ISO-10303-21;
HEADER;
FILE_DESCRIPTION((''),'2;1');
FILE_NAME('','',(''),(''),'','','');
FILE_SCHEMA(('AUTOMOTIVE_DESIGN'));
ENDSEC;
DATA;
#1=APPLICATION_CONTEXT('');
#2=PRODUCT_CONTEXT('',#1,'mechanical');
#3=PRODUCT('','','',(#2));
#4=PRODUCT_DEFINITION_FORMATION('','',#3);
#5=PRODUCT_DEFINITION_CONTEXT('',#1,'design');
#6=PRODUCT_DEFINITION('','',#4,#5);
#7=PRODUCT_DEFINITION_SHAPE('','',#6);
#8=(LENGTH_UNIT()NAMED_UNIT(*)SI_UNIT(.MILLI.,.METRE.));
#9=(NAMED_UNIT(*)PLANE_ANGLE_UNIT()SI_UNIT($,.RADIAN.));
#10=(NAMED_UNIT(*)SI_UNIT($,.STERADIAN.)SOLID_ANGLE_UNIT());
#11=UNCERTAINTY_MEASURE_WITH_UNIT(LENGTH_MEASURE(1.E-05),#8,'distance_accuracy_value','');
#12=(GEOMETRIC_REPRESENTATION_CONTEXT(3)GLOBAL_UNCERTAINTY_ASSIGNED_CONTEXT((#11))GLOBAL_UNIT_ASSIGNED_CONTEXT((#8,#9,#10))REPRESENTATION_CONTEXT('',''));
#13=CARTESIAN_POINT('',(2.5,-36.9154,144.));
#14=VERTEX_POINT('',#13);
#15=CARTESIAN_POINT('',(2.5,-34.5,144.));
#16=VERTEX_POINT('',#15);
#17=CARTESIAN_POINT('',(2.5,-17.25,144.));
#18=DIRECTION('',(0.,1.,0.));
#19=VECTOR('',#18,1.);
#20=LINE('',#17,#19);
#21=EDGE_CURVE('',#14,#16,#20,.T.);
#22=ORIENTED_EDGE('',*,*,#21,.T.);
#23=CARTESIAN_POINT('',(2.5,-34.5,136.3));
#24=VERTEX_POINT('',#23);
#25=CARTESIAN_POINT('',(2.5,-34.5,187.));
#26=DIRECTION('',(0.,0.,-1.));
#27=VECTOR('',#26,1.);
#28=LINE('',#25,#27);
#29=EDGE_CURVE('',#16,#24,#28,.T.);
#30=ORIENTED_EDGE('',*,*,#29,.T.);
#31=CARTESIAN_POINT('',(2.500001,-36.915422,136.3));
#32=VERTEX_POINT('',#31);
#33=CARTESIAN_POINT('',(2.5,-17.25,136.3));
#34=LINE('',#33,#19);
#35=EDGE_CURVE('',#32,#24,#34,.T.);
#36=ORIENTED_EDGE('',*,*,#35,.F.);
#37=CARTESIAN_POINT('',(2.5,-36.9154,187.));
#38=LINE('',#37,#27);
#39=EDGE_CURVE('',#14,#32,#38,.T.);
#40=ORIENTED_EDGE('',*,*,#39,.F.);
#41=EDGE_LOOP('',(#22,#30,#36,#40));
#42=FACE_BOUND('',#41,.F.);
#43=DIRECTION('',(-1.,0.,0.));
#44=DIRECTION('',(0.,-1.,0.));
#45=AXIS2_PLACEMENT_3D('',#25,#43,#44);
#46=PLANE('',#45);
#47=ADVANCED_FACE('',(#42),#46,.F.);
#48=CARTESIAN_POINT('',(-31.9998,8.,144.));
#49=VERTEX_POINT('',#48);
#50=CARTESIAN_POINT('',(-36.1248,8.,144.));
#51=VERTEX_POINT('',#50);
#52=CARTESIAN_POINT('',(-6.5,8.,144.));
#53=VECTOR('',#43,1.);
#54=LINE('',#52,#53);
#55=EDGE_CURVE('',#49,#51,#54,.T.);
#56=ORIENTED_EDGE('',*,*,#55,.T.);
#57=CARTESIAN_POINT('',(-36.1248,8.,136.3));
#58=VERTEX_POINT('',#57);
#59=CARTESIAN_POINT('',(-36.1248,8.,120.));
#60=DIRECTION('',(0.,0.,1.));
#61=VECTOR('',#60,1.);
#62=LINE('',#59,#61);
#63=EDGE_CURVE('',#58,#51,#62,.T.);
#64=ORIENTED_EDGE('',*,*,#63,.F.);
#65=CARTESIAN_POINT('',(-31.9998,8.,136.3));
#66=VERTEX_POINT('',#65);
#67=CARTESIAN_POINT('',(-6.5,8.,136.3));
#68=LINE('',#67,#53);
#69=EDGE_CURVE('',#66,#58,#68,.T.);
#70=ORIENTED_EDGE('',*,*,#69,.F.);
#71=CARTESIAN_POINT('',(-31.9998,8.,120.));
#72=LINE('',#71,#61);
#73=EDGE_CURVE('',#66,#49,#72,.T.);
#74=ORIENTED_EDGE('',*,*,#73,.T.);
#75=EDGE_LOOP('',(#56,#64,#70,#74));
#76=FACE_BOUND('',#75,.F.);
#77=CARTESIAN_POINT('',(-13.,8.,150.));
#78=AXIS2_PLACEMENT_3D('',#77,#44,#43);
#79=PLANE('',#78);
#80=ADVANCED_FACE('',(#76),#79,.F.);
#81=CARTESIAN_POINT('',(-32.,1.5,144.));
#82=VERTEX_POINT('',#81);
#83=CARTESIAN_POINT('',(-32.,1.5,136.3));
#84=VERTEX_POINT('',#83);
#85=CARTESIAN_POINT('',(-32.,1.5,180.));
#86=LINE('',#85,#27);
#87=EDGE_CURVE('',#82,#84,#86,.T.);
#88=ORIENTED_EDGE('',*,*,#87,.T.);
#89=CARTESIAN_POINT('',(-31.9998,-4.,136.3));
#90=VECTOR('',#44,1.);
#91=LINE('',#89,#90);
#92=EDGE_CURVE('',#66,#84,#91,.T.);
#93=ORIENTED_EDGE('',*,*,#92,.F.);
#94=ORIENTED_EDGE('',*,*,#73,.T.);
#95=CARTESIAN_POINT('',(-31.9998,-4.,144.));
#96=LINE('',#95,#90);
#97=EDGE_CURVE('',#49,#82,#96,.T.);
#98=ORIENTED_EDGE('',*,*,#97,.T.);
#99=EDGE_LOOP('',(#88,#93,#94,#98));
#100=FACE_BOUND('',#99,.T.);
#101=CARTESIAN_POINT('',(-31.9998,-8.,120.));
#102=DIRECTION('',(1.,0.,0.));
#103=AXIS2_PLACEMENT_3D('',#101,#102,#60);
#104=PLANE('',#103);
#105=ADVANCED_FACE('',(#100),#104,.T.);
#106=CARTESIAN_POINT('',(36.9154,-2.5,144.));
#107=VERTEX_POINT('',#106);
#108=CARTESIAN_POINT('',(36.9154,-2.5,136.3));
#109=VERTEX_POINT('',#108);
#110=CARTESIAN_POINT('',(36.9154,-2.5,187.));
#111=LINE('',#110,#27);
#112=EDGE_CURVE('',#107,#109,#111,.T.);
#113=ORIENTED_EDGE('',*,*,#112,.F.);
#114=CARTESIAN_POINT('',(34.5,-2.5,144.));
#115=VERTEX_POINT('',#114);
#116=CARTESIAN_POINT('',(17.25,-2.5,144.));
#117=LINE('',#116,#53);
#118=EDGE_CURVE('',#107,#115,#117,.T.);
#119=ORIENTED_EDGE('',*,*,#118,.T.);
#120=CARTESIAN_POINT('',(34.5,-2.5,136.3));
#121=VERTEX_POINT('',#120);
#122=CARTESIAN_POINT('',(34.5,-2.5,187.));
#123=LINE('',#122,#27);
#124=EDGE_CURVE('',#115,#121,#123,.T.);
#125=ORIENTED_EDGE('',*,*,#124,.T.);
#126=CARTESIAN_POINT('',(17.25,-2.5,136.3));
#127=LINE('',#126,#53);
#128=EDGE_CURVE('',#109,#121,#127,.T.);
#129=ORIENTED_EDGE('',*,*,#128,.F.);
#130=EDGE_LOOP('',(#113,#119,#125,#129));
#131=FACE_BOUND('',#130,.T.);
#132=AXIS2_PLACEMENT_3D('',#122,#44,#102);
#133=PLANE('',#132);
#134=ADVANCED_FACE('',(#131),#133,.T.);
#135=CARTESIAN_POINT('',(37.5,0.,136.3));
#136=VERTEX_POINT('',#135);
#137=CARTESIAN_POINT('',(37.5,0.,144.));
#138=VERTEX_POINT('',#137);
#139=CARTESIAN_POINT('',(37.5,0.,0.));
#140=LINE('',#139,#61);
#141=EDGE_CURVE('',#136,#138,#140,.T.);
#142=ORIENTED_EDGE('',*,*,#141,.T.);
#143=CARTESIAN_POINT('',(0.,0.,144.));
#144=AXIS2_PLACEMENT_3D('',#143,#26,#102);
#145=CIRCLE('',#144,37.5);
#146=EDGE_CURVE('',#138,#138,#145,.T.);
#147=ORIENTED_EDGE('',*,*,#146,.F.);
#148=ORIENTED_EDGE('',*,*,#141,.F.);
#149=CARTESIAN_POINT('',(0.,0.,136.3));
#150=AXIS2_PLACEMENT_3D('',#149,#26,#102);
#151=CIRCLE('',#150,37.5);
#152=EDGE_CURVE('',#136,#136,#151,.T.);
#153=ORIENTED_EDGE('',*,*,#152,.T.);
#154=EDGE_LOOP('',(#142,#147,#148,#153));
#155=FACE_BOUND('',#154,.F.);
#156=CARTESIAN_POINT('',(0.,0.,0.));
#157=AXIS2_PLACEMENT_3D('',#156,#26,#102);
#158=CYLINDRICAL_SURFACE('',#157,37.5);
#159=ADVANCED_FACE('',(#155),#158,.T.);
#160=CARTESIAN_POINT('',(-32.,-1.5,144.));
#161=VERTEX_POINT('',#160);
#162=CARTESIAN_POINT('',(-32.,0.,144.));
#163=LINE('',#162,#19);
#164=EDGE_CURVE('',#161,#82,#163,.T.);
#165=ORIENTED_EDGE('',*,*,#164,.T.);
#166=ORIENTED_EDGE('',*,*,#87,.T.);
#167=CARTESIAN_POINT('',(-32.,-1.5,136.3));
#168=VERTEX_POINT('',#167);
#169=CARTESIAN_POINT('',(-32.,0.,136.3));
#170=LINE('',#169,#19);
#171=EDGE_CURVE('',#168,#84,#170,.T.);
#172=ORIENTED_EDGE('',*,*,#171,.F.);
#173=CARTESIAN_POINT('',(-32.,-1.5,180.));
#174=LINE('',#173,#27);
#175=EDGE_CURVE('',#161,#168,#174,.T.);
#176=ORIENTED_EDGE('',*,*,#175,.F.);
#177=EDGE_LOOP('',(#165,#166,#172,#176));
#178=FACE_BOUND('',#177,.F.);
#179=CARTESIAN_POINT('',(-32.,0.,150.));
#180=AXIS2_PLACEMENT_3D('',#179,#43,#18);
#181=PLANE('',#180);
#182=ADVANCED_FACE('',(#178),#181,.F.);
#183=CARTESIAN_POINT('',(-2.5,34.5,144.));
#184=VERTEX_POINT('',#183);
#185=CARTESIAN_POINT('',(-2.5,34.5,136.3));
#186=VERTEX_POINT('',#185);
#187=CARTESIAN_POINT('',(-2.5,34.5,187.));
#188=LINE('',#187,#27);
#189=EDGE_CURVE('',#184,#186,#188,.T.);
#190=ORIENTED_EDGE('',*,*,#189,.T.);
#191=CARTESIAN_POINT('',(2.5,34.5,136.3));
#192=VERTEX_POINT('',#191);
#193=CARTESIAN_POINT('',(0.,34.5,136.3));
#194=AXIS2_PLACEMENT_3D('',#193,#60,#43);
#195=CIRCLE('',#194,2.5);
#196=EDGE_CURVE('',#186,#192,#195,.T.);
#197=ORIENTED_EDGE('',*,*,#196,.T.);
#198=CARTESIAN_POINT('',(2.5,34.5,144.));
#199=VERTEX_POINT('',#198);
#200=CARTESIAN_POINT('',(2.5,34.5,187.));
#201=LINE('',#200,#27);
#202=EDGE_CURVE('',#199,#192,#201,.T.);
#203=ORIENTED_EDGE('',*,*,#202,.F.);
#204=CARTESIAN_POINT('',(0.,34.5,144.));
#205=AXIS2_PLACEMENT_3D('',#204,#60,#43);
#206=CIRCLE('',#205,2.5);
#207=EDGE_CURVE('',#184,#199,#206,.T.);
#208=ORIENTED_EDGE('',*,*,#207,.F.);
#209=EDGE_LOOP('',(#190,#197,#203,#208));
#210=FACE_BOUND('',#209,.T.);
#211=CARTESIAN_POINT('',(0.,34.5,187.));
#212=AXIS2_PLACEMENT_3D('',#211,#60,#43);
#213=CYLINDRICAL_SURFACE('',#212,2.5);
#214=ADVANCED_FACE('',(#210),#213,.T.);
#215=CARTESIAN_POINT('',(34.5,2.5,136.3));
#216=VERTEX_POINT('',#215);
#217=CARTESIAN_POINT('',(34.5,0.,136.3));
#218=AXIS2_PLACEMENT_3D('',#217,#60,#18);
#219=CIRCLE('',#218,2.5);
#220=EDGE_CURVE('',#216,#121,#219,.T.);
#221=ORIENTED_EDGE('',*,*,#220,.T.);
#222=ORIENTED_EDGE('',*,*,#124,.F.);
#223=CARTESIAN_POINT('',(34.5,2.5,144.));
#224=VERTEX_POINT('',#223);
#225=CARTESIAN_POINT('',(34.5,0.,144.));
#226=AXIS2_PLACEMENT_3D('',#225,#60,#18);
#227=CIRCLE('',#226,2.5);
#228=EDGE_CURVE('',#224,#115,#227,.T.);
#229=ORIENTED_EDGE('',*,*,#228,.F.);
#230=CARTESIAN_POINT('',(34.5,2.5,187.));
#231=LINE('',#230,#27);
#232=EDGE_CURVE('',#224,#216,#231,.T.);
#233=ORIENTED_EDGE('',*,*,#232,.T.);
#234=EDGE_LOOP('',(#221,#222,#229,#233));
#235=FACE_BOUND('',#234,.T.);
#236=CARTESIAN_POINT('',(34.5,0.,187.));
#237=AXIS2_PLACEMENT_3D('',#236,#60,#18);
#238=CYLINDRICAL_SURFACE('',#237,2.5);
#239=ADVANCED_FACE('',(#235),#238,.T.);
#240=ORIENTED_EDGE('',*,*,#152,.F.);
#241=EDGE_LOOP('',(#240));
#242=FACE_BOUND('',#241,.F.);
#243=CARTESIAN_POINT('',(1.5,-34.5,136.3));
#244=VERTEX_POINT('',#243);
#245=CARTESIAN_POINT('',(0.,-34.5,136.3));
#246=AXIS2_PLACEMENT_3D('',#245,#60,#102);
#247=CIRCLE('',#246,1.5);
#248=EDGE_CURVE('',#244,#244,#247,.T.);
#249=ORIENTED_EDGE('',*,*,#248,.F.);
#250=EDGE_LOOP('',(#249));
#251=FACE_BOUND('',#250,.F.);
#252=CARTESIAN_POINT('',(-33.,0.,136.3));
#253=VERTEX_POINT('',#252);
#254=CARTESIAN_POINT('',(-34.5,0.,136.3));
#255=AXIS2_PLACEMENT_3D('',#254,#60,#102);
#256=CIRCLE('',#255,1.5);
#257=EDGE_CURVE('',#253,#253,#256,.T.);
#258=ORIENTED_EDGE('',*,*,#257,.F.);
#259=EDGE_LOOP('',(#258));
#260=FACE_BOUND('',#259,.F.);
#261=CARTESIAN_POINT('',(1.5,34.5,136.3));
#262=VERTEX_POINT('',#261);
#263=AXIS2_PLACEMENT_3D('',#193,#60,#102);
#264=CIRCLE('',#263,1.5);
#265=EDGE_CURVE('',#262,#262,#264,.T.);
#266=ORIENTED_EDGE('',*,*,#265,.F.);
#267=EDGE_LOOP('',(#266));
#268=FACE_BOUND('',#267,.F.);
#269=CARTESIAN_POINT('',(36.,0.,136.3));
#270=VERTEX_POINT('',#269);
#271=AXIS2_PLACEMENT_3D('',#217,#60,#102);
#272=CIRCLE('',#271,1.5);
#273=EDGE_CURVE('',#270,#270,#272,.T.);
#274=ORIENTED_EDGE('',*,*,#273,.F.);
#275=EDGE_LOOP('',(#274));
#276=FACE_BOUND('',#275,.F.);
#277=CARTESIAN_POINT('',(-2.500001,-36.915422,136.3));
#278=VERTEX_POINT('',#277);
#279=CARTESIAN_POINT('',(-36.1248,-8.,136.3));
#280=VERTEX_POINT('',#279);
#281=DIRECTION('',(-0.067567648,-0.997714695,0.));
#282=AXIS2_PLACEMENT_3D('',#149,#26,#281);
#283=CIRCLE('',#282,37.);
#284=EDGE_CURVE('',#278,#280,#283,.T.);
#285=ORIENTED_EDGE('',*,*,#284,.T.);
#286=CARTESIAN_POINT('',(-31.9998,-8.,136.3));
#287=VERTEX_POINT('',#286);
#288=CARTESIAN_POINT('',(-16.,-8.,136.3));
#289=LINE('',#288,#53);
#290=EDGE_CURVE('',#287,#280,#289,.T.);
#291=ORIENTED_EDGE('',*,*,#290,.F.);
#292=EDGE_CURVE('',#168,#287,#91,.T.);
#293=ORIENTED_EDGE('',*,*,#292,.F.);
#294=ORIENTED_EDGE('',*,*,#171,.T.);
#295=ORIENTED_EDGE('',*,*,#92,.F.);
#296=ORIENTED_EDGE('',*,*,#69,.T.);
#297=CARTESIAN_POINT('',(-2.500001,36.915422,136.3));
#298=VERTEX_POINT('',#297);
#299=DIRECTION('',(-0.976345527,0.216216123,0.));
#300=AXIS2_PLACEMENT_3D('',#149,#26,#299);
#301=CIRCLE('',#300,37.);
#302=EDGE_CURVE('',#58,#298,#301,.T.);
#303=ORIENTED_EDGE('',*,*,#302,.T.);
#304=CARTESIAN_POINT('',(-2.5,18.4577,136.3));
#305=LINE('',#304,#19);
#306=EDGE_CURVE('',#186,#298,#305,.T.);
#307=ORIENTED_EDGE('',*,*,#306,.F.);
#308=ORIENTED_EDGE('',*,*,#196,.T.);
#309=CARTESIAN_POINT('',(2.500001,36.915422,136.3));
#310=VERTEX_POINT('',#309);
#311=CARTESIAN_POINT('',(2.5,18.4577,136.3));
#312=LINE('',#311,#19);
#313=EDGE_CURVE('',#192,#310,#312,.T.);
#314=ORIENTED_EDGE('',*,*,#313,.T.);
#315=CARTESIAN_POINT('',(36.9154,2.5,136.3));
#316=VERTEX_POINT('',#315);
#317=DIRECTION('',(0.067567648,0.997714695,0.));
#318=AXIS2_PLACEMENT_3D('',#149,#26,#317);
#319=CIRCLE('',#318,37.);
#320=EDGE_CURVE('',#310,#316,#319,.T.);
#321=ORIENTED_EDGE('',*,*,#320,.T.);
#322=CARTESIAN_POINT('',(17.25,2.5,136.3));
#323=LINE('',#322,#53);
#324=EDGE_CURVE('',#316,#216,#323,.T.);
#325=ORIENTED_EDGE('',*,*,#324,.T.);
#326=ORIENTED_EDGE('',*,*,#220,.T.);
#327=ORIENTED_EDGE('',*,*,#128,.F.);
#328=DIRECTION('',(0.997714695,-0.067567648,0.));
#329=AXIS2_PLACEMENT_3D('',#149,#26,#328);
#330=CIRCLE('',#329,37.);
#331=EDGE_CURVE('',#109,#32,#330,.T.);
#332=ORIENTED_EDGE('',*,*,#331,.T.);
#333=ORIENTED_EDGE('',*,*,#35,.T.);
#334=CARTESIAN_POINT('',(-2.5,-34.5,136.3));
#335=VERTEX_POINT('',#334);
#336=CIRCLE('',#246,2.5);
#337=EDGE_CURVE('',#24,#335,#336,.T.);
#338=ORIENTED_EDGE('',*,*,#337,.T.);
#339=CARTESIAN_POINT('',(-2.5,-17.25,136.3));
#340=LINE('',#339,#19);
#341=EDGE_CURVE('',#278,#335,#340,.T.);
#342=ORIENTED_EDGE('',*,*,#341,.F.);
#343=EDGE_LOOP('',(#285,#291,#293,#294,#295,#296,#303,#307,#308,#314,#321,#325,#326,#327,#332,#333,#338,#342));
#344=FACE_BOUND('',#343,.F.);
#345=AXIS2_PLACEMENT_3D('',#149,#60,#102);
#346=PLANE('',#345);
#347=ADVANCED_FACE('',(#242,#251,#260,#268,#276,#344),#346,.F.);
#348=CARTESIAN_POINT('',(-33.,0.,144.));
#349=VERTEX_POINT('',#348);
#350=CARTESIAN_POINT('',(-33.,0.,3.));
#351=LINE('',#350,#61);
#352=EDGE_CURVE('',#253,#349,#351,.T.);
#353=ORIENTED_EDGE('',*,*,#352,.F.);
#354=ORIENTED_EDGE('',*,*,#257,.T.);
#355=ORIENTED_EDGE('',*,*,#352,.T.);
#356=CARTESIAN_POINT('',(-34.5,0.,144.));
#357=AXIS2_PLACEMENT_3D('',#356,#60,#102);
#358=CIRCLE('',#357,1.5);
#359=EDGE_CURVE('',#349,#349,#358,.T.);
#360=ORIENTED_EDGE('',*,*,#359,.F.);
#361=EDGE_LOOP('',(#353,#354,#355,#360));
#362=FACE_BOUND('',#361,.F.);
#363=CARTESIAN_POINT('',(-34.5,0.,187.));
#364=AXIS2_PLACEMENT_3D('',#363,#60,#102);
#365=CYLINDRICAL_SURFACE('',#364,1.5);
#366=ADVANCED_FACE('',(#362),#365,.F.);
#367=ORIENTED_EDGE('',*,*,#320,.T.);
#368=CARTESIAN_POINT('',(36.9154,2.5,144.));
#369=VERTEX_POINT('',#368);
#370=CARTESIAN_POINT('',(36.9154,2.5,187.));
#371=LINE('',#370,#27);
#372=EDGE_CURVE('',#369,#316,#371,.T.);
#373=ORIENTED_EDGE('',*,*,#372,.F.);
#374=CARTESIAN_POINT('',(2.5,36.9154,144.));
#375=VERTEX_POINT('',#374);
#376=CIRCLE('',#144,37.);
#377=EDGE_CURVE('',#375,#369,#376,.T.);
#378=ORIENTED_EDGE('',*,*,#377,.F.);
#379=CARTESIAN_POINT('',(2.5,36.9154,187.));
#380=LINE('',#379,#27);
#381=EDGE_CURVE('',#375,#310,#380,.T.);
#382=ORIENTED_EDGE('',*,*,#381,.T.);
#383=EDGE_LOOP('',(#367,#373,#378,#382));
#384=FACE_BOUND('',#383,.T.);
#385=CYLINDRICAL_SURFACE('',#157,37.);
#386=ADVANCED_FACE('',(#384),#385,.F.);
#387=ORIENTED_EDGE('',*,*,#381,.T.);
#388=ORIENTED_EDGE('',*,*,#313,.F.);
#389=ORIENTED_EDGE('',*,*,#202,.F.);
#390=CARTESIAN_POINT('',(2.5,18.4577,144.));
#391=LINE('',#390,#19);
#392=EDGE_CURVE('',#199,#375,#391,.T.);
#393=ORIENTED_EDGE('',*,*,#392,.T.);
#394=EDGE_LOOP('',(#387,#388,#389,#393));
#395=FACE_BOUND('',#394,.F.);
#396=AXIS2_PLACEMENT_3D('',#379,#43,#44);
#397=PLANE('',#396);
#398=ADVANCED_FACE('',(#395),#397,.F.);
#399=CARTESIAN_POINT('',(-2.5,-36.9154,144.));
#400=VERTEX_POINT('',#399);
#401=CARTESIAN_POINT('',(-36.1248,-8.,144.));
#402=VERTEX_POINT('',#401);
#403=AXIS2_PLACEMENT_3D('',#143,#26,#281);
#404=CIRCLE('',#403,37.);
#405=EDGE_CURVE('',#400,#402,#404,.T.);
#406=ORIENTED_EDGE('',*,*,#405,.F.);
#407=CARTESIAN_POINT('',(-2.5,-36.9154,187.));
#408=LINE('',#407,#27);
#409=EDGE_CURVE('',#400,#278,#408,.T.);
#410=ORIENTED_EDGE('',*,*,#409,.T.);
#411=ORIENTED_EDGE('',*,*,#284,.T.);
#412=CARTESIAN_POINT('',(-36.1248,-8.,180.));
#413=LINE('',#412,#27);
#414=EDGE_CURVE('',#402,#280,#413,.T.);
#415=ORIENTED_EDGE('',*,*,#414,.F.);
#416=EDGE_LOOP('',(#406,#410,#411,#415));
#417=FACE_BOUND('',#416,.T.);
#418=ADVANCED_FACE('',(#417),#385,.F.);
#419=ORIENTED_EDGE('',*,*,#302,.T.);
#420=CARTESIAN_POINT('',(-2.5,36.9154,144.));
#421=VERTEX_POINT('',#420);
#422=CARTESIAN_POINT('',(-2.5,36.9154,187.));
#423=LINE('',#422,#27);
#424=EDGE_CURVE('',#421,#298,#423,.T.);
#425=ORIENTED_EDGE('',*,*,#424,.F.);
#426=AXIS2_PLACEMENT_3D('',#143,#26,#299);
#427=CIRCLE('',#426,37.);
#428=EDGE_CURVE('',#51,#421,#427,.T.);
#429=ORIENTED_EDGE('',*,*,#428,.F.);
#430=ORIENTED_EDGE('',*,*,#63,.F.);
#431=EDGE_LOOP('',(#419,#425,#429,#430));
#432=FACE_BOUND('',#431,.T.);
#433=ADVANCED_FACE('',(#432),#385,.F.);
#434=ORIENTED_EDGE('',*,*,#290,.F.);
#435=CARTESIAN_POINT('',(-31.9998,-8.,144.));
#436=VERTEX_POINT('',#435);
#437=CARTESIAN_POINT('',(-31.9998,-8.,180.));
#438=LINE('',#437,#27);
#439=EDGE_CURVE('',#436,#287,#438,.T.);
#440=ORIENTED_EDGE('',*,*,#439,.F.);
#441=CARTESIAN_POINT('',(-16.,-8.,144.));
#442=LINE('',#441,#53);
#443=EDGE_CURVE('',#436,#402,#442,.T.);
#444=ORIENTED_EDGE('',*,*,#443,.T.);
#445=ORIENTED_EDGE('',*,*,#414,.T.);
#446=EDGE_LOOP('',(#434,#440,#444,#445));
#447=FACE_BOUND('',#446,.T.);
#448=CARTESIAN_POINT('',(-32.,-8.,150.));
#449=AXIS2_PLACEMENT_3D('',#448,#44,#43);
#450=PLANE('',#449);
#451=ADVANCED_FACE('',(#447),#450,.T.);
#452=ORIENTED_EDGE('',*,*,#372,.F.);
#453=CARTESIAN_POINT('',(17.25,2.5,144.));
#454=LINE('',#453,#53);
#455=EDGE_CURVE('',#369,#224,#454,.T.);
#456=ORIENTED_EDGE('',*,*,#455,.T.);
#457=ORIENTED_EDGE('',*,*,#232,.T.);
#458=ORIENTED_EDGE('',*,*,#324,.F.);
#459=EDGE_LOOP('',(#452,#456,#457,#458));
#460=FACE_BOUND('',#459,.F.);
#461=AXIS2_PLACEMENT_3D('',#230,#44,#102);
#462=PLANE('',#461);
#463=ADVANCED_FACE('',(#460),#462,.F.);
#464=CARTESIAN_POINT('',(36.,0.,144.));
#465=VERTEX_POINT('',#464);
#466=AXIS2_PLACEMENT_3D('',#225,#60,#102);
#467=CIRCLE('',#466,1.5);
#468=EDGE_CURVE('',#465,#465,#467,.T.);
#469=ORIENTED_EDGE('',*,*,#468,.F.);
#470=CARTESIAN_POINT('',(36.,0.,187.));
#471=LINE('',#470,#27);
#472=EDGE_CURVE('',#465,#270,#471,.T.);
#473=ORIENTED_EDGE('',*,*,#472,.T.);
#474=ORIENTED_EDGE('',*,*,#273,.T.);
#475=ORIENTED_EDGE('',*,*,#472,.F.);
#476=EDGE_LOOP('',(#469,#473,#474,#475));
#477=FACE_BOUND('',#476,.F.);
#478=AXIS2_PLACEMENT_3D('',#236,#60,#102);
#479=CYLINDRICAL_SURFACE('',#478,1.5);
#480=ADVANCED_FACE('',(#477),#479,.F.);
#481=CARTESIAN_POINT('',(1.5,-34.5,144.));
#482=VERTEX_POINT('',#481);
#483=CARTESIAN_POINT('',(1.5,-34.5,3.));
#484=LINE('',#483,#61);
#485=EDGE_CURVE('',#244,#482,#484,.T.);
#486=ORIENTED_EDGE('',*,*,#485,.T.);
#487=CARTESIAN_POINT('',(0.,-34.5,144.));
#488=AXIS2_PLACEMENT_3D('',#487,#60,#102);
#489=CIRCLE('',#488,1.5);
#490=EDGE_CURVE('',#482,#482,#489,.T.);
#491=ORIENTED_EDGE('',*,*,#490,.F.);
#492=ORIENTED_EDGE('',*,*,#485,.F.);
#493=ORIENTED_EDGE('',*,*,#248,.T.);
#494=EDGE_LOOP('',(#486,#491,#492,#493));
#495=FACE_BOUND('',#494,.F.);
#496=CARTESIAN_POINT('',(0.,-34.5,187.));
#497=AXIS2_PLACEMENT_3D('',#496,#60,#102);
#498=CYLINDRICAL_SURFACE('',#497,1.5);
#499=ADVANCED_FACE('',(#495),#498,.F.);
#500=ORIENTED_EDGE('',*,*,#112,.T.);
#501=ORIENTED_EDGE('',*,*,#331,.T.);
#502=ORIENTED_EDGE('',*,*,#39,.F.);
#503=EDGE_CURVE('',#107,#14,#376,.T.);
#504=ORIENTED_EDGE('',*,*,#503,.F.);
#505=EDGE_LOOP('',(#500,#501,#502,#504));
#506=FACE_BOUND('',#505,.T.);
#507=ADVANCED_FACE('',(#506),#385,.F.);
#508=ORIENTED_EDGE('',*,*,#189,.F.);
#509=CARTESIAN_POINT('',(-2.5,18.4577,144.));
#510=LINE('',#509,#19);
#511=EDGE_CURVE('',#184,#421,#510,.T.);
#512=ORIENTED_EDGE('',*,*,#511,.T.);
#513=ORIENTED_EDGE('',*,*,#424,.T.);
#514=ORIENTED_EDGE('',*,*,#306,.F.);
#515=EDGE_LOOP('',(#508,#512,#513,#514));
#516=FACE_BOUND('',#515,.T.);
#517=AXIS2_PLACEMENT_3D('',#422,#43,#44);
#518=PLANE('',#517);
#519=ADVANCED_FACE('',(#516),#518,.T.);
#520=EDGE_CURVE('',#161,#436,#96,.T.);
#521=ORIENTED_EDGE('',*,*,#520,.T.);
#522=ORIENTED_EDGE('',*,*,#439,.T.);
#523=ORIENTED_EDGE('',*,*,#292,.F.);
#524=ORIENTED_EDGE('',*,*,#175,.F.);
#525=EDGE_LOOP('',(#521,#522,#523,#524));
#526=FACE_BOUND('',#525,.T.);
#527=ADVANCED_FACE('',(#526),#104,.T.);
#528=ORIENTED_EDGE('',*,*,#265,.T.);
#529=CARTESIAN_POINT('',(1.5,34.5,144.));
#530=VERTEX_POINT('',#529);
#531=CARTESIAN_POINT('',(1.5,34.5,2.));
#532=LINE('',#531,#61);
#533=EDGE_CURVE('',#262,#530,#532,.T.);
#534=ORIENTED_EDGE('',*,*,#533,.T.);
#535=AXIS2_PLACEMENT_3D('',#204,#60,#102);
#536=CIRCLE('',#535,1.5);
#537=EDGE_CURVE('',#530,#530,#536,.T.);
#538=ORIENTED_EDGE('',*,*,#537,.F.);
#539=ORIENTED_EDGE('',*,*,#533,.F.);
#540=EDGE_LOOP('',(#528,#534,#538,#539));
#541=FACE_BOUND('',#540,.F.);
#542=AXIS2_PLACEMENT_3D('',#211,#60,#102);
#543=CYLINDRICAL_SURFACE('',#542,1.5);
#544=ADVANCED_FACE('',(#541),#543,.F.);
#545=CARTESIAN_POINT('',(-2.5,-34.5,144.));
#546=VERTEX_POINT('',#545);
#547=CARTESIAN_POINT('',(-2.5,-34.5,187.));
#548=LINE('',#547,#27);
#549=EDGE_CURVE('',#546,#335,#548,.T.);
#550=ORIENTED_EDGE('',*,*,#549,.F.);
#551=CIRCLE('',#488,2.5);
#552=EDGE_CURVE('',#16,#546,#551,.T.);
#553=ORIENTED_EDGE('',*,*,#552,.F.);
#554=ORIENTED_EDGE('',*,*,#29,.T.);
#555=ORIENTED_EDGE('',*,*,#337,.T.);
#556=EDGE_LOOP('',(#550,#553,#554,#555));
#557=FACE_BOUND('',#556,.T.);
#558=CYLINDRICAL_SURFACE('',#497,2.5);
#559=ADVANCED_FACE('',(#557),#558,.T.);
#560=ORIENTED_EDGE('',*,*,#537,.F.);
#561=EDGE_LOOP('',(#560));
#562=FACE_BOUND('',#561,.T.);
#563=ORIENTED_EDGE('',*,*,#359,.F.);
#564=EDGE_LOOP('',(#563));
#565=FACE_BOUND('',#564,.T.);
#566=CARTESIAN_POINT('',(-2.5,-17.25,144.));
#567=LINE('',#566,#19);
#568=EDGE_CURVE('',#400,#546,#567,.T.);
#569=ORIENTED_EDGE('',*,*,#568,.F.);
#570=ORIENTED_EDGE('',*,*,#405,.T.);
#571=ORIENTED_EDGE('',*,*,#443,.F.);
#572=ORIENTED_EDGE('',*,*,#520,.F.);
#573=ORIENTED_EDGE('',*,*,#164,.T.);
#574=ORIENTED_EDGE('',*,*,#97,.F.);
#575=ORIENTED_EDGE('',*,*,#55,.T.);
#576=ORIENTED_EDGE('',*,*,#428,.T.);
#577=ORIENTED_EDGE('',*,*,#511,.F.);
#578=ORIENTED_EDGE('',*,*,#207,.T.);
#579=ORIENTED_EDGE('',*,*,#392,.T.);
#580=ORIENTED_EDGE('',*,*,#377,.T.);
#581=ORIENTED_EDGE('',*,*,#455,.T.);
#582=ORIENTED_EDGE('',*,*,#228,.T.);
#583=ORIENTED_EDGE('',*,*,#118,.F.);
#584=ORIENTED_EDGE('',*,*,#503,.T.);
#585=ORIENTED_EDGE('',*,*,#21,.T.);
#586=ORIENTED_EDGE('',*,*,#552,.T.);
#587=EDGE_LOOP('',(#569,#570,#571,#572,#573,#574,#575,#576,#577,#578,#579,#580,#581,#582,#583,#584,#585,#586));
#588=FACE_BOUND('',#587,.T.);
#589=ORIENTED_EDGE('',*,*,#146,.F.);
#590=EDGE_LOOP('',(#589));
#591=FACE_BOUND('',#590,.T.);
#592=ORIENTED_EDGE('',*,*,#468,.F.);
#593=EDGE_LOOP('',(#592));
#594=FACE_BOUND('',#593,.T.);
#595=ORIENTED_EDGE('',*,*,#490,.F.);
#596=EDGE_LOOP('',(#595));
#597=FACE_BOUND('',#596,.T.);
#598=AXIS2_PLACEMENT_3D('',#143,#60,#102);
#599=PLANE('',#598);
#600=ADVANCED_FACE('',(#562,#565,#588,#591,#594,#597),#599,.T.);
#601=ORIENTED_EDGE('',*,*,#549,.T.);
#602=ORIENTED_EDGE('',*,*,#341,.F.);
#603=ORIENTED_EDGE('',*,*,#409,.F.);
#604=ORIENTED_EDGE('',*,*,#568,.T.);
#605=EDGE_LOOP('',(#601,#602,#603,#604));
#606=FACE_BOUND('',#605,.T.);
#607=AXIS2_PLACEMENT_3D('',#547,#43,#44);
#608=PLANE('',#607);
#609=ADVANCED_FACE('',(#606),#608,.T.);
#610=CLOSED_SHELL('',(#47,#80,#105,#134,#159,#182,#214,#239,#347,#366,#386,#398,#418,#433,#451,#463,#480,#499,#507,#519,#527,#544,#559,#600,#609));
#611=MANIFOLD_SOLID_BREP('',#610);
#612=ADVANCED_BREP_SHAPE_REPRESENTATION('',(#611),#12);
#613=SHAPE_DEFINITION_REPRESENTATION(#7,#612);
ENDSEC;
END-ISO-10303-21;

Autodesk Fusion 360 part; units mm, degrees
sketch "Esboço2" plane through (0, 0, 0) normal (0, 0, 1) x (1, 0, 0)
  circle A0 centre (0, 0) radius 37.5
  circle A1 centre (0, 0) radius 37
  dimension "d6" = 75
  dimension "d7" = 74
extrude "Extrusão2" add sketch "Esboço2" along normal blind 190
ref_plane "Plano de trabalho9" through (0, 0, 187) normal (0, 0, 1) x (1, 0, 0)
sketch "Esboço10" plane through (0, 0, 187) normal (0, 0, 1) x (1, 0, 0)
  circle A0 centre (0, 0) radius 34.5 construction
  line L0 (0, 0) -> (-68.1762, 0) construction
  line L1 (0, 0) -> (60, 0) construction
  line L2 (0, 0) -> (0, 45) construction
  line L3 (0, 0) -> (0, -43.1659) construction
  circle A1 centre (34.5, 0) radius 1.5
  line L4 (3, -43) -> (3, -42)
  circle A2 centre (0, 34.5) radius 1.5
  circle A3 centre (-34.5, 0) radius 1.5
  circle A4 centre (0, -34.5) radius 1.5
  arc A5 (34.5, 2.5) -> (34.5, -2.5) centre (34.5, 0) ccw
  arc A6 (-2.5, 34.5) -> (2.5, 34.5) centre (0, 34.5) ccw
  arc A7 (-34.5, -2.5) -> (-34.5, 2.5) centre (-34.5, 0) ccw
  arc A8 (2.5, -34.5) -> (-2.5, -34.5) centre (0, -34.5) ccw
  circle A9 centre (0, 0) radius 37
  line L5 (-36.9154, 2.5) -> (-34.4093, 2.5)
  line L6 (-36.9154, -2.5) -> (-34.4093, -2.5)
  line L7 (34.5, 2.5) -> (36.9154, 2.5)
  line L8 (34.5, -2.5) -> (36.9154, -2.5)
  line L9 (2.5, 36.9154) -> (2.5, 34.4093)
  line L10 (-2.5, 36.9154) -> (-2.5, 34.4093)
  line L11 (-2.5, -34.4093) -> (-2.5, -36.9154)
  line L12 (2.5, -34.4093) -> (2.5, -36.9154)
  dimension "d82" = 69
  dimension "d83" = 3
  dimension "d84" = 2.5
  dimension "d85" = 2.5
  dimension "d87" = 360
  dimension "d89" = 360
  dimension "d90" = 2.5
extrude "Extrusão12" add sketch "Esboço10" against normal blind 184 contours A5 A9 L7 L8 | A6 A9 L9 L10 | A8 A9 L11 L12 | A7 A9 L5 L6
thread "Rosca3"
ref_plane "Plano de trabalho3" through (0, 0, 32) normal (0, 0, 1) x (1, 0, 0)
sketch "Esboço3" plane through (0, 0, 32) normal (0, 0, 1) x (1, 0, 0)
  line L0 (0, 0) -> (0, 37) construction
  line L1 (34.2491, 14) -> (-34.2491, 14)
  circle A0 centre (0, 0) radius 37
  line L2 (31.1288, 20) -> (-31.1288, 20)
  line L3 (32.8634, 17) -> (-32.8634, 17)
  circle A1 centre (0, 0) radius 50
  circle A2 centre (0, 0) radius 37.5
  line L4 (-8, 0) -> (8, 0)
  line L5 (8, 0) -> (8, 36.1248)
  line L6 (-8, 0) -> (-8, 36.1248)
  circle A3 centre (0, 34.5) radius 1.5
  line L7 (1.5, 32.5) -> (1.5, 0)
  arc A4 (-2.5, 34.5) -> (2.5, 34.5) centre (0, 34.5) ccw
  line L8 (-1.5, 32.5) -> (-1.5, 0)
  line L9 (27.8634, 24.3441) -> (27.8634, 11)
  line L10 (27.8634, 11) -> (35.327, 11)
  line L11 (-27.8634, 11) -> (-35.327, 11)
  line L12 (-27.8634, 24.3441) -> (-27.8634, 11)
  line L13 (-30.4631, 21) -> (30.4631, 21)
  line L14 (-34.641, 13) -> (34.641, 13)
  line L15 (0, 32) -> (8, 32)
  line L16 (0, 32) -> (-8, 32)
  dimension "d12" = 6
  dimension "d15" = 3
  dimension "d17" = 75
  dimension "d18" = 100
  dimension "d41" = 14
  dimension "d51" = 8
  dimension "d52" = 16
  dimension "d99" = 3
  dimension "d100" = 2.5
  dimension "d115" = 6.5
  dimension "d123" = 5
  dimension "d124" = 6
  dimension "d143" = 4
  dimension "d144" = 4
extrude "Extrusão21" add sketch "Esboço3" along normal blind 6 and the other way blind 6 contours L1 A0 L9 L14 | L1 A0 L3 L9 | A0 L9 L10 L14 | A0 L2 L3 L9 | A0 L2 L9 L13 | A0 L9 L13 | A0 L11 L12 L14 | L1 A0 L12 L14 | L1 A0 L3 L12 | A0 L2 L3 L12 | A0 L12 L13 | A0 L2 L12 L13
sketch "Esboço18" plane through (-27.8634, 0, 0) normal (1, 0, 0) x (0, 1, 0)
  line L0 (24.3441, 26) -> (24.3441, 38)
  line L1 (24.3441, 38) -> (11, 38)
  line L2 (11, 38) -> (11, 26)
  line L3 (11, 26) -> (24.3441, 26)
  circle A0 centre (17, 32) radius 4
  point P0 (11, 32)
  dimension "d166" = 8
  dimension "d167" = 6
  dimension "d168" = 6
ref_plane "Plano de trabalho11" through (0, 0, 0) normal (1, 0, 0) x (0, 1, 0)
extrude "Extrusão23" cut sketch "Esboço18" against normal blind 15 contours A0
extrude "Extrusão7" add sketch "Esboço3" along normal blind 30 and the other way blind 30 contours L1 L5 L7 L14 | L1 L3 L5 L7 | L4 L5 L7 L14 | L2 L3 L5 L7 | L1 L6 L8 L14 | L1 L3 L6 L8 | L2 L5 L7 L13 | L2 L3 L6 L8 | L4 L6 L8 L14 | L5 L7 L13 L15 | A0 L5 L6 L7 A4 L8 L15 L16 | L2 L6 L8 L13 | L6 L8 L13 L16 | L7 A4 L15 | A4 L8 L16
sketch "Esboço19" plane through (27.8634, 0, 0) normal (-1, 0, 0) x (0, -1, 0)
  line L0 (-11, 26) -> (-11, 38)
  line L1 (-11, 38) -> (-24.3441, 38)
  line L2 (-24.3441, 38) -> (-24.3441, 26)
  line L3 (-24.3441, 26) -> (-11, 26)
extrude "Extrusão24" cut sketch "Esboço18" along normal blind 80 contours A0
sketch "Esboço11" plane through (8, 0, 0) normal (1, 0, 0) x (0, 1, 0)
  line L0 (0, 2) -> (36.1248, 2)
  line L1 (36.1248, 2) -> (36.1248, 62)
  line L2 (36.1248, 62) -> (0, 62)
  line L3 (0, 62) -> (0, 2)
  circle A0 centre (17, 32) radius 3
  circle A1 centre (17, 32) radius 9.5
  circle A2 centre (17, 32) radius 12.5
  line L4 (36.1248, 32) -> (36.1248, -5) construction
  line L5 (0, 32) -> (36.1248, 32)
  line L6 (30.1248, 2) -> (8.3278, 22.9976)
  line L7 (30.1248, 62) -> (8.3278, 41.0024)
  line L8 (30.1248, 2) -> (31.9998, 2)
  line L9 (31.9998, 2) -> (31.9998, 32)
  line L10 (30.1248, 62) -> (31.9998, 62)
  line L11 (31.9998, 62) -> (31.9998, 32)
  circle A3 centre (17, 32) radius 4
  point P0 (14, 32)
  point P1 (20, 32)
  dimension "d106" = 6
  dimension "d107" = 19
  dimension "d109" = 25
  dimension "d110" = 6
  dimension "d147" = 1.875
extrude "Extrusão13" cut sketch "Esboço11" against normal blind 16 contours L0 L3 A2 L5 L6 | L0 A2 L5 L6 L8 L9 | L2 L3 A2 L5 L7 | A1 A2 L5 | A1 A2 L5 | L2 A2 L5 L7 L10 L11 | A1 L5 A3 | A1 L5 A3 | A0 L5 A3 | A0 L5 A3 | A0 L5 | A0 L5
ref_plane "Plano de trabalho4" through (0, 0, 150) normal (0, 0, 1) x (1, 0, 0)
sketch "Esboço4" plane through (0, 0, 150) normal (0, 0, 1) x (1, 0, 0)
  circle A0 centre (0, 0) radius 37
  circle A1 centre (0, 0) radius 50
  circle A2 centre (0, 0) radius 37.5
  line L0 (-20, -31.1288) -> (-20, 31.1288)
  line L1 (-17, -32.8634) -> (-17, 32.8634)
  line L2 (-14, -34.2491) -> (-14, 34.2491)
  line L3 (0, 8) -> (0, -8)
  line L4 (0, 8) -> (-36.1248, 8)
  line L5 (0, -8) -> (-36.1248, -8)
  line L6 (0, 0) -> (-37, 0) construction
  circle A3 centre (-34.5, 0) radius 1.5
  line L7 (0, 1.5) -> (-32.5, 1.5)
  arc A4 (-34.5, -2.5) -> (-34.5, 2.5) centre (-34.5, 0) ccw
  line L8 (0, -1.5) -> (-32.5, -1.5)
  line L9 (-24.3441, -27.8634) -> (-11, -27.8634)
  line L10 (-11, -27.8634) -> (-11, -35.327)
  line L11 (-24.3441, 27.8634) -> (-11, 27.8634)
  line L12 (-11, 27.8634) -> (-11, 35.327)
  line L13 (-13, 34.641) -> (-13, -34.641)
  line L14 (-21, 30.4631) -> (-21, -30.4631)
  line L15 (-32, 0) -> (-32, 8)
  line L16 (-32, 0) -> (-32, -8)
  dimension "d28" = 75
  dimension "d29" = 100
  dimension "d38" = 14
  dimension "d39" = 6
  dimension "d40" = 3
  dimension "d43" = 16
  dimension "d44" = 8
  dimension "d101" = 3
  dimension "d102" = 2.5
  dimension "d116" = 6.5
  dimension "d135" = 6
  dimension "d136" = 5
  dimension "d145" = 4
  dimension "d146" = 4
extrude "Extrusão25" add sketch "Esboço4" along normal blind 6 and the other way blind 6 contours A0 L11 L12 L13 | A0 L9 L10 L13 | A0 L2 L11 L13 | A0 L2 L9 L13 | A0 L1 L2 L11 | A0 L1 L2 L9 | A0 L0 L1 L11 | A0 L0 L1 L9 | A0 L0 L11 L14 | A0 L0 L9 L14 | A0 L11 L14 | A0 L9 L14
sketch "Esboço20" plane through (0, 27.8634, 0) normal (0, -1, 0) x (1, 0, 0)
  line L0 (-11, 144) -> (-11, 156)
  line L1 (-11, 156) -> (-24.3441, 156)
  line L2 (-24.3441, 156) -> (-24.3441, 144)
  line L3 (-24.3441, 144) -> (-11, 144)
  circle A0 centre (-17, 150) radius 4
  dimension "d179" = 8
  dimension "d180" = 6
  dimension "d182" = 6
extrude "Extrusão26" cut sketch "Esboço20" against normal blind 15 contours A0
sketch "Esboço21" plane through (0, -27.8634, 0) normal (0, 1, 0) x (-1, 0, 0)
  line L0 (24.3441, 144) -> (24.3441, 156)
  line L1 (24.3441, 156) -> (11, 156)
  line L2 (11, 156) -> (11, 144)
  line L3 (11, 144) -> (24.3441, 144)
  circle A0 centre (17, 150) radius 4
  dimension "d185" = 8
  dimension "d186" = 6
  dimension "d187" = 6
extrude "Extrusão27" cut sketch "Esboço21" against normal blind 15 contours A0
extrude "Extrusão6" add sketch "Esboço4" along normal blind 30 and the other way blind 30 contours L2 L4 L7 L13 | L3 L4 L7 L13 | L3 L5 L8 L13 | L2 L5 L8 L13 | L1 L2 L4 L7 | L1 L2 L5 L8 | L0 L1 L4 L7 | L0 L1 L5 L8 | L0 L4 L7 L14 | L0 L5 L8 L14 | A0 L4 L5 L7 A4 L8 L15 L16 | L4 L7 L14 L15 | L5 L8 L14 L16 | L7 A4 L15 | A4 L8 L16
sketch "Esboço13" plane through (0, -8, 0) normal (0, -1, 0) x (1, 0, 0)
  line L0 (0, 120) -> (0, 180)
  line L1 (0, 180) -> (-36.1248, 180)
  line L2 (-36.1248, 180) -> (-36.1248, 120)
  line L3 (-36.1248, 120) -> (0, 120)
  circle A0 centre (-17, 150) radius 3
  circle A1 centre (-17, 150) radius 9.5
  circle A2 centre (-17, 150) radius 12.5
  line L4 (-36.1248, 150) -> (-36.1248, 198.4836) construction
  line L5 (-30.1248, 180) -> (-6.6704, 157.4058)
  line L6 (0, 150) -> (-36.1248, 150)
  line L7 (-30.1248, 120) -> (-6.6704, 142.5942)
  line L8 (-30.1248, 180) -> (-31.9998, 180)
  line L9 (-31.9998, 180) -> (-31.9998, 150)
  line L10 (-30.1248, 120) -> (-31.9998, 120)
  line L11 (-31.9998, 120) -> (-31.9998, 150)
  point P0 (-14, 150)
  point P1 (-20, 150)
  dimension "d117" = 6
  dimension "d118" = 19
  dimension "d119" = 25
  dimension "d120" = 6
  dimension "d148" = 1.875
extrude "Extrusão14" cut sketch "Esboço13" against normal blind 16 contours L0 L3 A2 L6 L7 | L0 L1 A2 L5 L6 | L3 A2 L6 L7 L10 L11 | A1 A2 L6 | A1 A2 L6 | L1 A2 L5 L6 L8 L9 | A0 A1 L6 | A0 A1 L6 | A0 L6 | A0 L6
ref_plane "Plano de trabalho5" through (0, 0, 0) normal (1, 0, 0) x (0, 1, 0)
ref_plane "Plano de trabalho6" through (0, 0, 0) normal (0, 1, 0) x (0, 0, 1)
ref_plane "Plano de trabalho7" through (0, 0, 134.3) normal (0, 0, 1) x (1, 0, 0)
sketch "Esboço8" plane through (0, 0, 134.3) normal (0, 0, 1) x (1, 0, 0)
  line L0 (46.3444, 0) -> (0, 0) construction
  line L1 (8, 36.1248) -> (8, -36.1248)
  line L2 (-8, -36.1248) -> (-8, 36.1248)
  circle A0 centre (0, 0) radius 37
  line L3 (0, 0) -> (0, 37) construction
  circle A1 centre (0, 34.5) radius 1.5
  circle A2 centre (0, -34.5) radius 1.5
  dimension "d72" = 8
  dimension "d73" = 8
  dimension "d95" = 2.5
  dimension "d96" = 3
extrude "Extrusão10" add sketch "Esboço8" along normal blind 2 contours L1 L2 A0
ref_plane "Plano de trabalho8" through (0, 0, 45.7) normal (0, 0, 1) x (1, 0, 0)
sketch "Esboço9" plane through (0, 0, 45.7) normal (0, 0, 1) x (1, 0, 0)
  line L0 (0, 0) -> (-37, 0) construction
  line L1 (-36.1248, 8) -> (36.1248, 8)
  line L2 (-36.1248, -8) -> (36.1248, -8)
  circle A0 centre (0, 0) radius 37
  circle A1 centre (-34.5, 0) radius 1.5
  line L3 (0, 0) -> (0, 43.2459) construction
  circle A2 centre (34.5, 0) radius 1.5
  dimension "d77" = 8
  dimension "d78" = 8
  dimension "d97" = 3
  dimension "d98" = 2.5
extrude "Extrusão11" add sketch "Esboço9" along normal blind 2 contours L1 L2 A0
ref_plane "Plano de trabalho10" through (8, 18.0624, 32) normal (1, 0, 0) x (0, 1, 0)
sketch "Esboço16" plane through (-31.9998, 0, 0) normal (1, 0, 0) x (0, 1, 0)
  line L0 (1.5, 180) -> (1.5, 120)
  line L1 (1.5, 120) -> (8, 120)
  line L2 (8, 120) -> (8, 180)
  line L3 (8, 180) -> (1.5, 180)
  line L4 (4.75, 180) -> (4.75, 120) construction
  circle A0 centre (4.75, 170) radius 1.5
  circle A1 centre (4.75, 130) radius 1.5
  line L5 (8, 150) -> (-12.335, 150) construction
  line L6 (0, 2.5) -> (0, 20)
  circle A2 centre (-4.75, 170) radius 1.5
  circle A3 centre (-4.75, 130) radius 1.5
  dimension "d149" = 3
  dimension "d150" = 3
  dimension "d151" = 40
  dimension "d152" = 20
extrude "Extrusão19" cut sketch "Esboço16" against normal blind 10 contours A0 | A1 | A2 | A3
sketch "Esboço17" plane through (0, 31.9998, 0) normal (0, -1, 0) x (1, 0, 0)
  line L0 (1.5, 62) -> (1.5, 2)
  line L1 (1.5, 2) -> (8, 2)
  line L2 (8, 2) -> (8, 62)
  line L3 (8, 62) -> (1.5, 62)
  line L4 (4.75, 2) -> (4.75, 62) construction
  line L5 (8, 32) -> (-12, 32) construction
  circle A0 centre (4.75, 52) radius 1.5
  circle A1 centre (4.75, 12) radius 1.5
  line L6 (0, 1.75) -> (0, 22.5)
  circle A2 centre (-4.75, 12) radius 1.5
  circle A3 centre (-4.75, 52) radius 1.5
  dimension "d155" = 3
  dimension "d156" = 3
  dimension "d157" = 40
  dimension "d158" = 20
extrude "Extrusão20" cut sketch "Esboço17" against normal blind 10 contours A0 | A1 | A2 | A3
thread "Rosca4"
thread "Rosca5"
sketch "Esboço22" plane through (0, 0, 136.3) normal (0, 0, 1) x (-1, 0, 0)
  line L0 (2.5, 36.9154) -> (2.5, 34.5)
  arc A0 (-2.5, 34.5) -> (2.5, 34.5) centre (0, 34.5) ccw
  line L1 (-2.5, 34.5) -> (-2.5, 36.9154)
  arc A1 (-2.5, 36.9154) -> (-8, 36.1248) centre (0, 0) ccw
  line L2 (-8, 36.1248) -> (-8, -36.1248)
  arc A2 (-8, -36.1248) -> (-2.5, -36.9154) centre (0, 0) ccw
  line L3 (-2.5, -36.9154) -> (-2.5, -34.5)
  arc A3 (2.5, -34.5) -> (-2.5, -34.5) centre (0, -34.5) ccw
  line L4 (2.5, -34.5) -> (2.5, -36.9154)
  arc A4 (2.5, -36.9154) -> (8, -36.1248) centre (0, 0) ccw
  line L5 (8, -36.1248) -> (8, 36.1248)
  arc A5 (8, 36.1248) -> (2.5, 36.9154) centre (0, 0) ccw
  line L6 (0, 0) -> (-21, 0) construction
  line L7 (0, 0) -> (0, -19.3) construction
  line L8 (2, -15.8) -> (-2, -15.8)
  arc A6 (-2, -15.8) -> (-2, -22.8) centre (-2, -19.3) ccw
  line L9 (-2, -22.8) -> (2, -22.8)
  arc A7 (2, -22.8) -> (2, -15.8) centre (2, -19.3) ccw
  line L10 (2, -19.3) -> (-2, -19.3) construction
  arc A8 (-2, 22.8) -> (-2, 15.8) centre (-2, 19.3) ccw
  line L11 (2, 15.8) -> (-2, 15.8)
  arc A9 (2, 15.8) -> (2, 22.8) centre (2, 19.3) ccw
  line L12 (-2, 22.8) -> (2, 22.8)
  circle A10 centre (0, 10.8) radius 1.5 construction
  line L13 (2, 19.3) -> (-2, 19.3) construction
  line L14 (2, 12.3) -> (-2, 12.3)
  arc A11 (-2, 12.3) -> (-2, 9.3) centre (-2, 10.8) ccw
  line L15 (-2, 9.3) -> (2, 9.3)
  arc A12 (2, 9.3) -> (2, 12.3) centre (2, 10.8) ccw
  line L16 (2, 10.8) -> (-2, 10.8) construction
  line L17 (2, 26.3) -> (-2, 26.3)
  arc A13 (2, 26.3) -> (2, 29.3) centre (2, 27.8) ccw
  line L18 (-2, 29.3) -> (2, 29.3)
  arc A14 (-2, 29.3) -> (-2, 26.3) centre (-2, 27.8) ccw
  arc A15 (2, -29.3) -> (2, -26.3) centre (2, -27.8) ccw
  line L19 (2, -26.3) -> (-2, -26.3)
  arc A16 (-2, -26.3) -> (-2, -29.3) centre (-2, -27.8) ccw
  line L20 (-2, -29.3) -> (2, -29.3)
  arc A17 (2, -12.3) -> (2, -9.3) centre (2, -10.8) ccw
  line L21 (-2, -9.3) -> (2, -9.3)
  arc A18 (-2, -9.3) -> (-2, -12.3) centre (-2, -10.8) ccw
  line L22 (2, -12.3) -> (-2, -12.3)
  point P0 (0, -19.3)
  point P1 (0, 10.8)
  dimension "d191" = 19.3
  dimension "d195" = 2
  dimension "d196" = 3.5
  dimension "d204" = 3
  dimension "d205" = 8.5
  dimension "d230" = 1.5
  dimension "d231" = 4
extrude "Extrusão28" cut sketch "Esboço22" against normal blind 5 contours L8 A6 L9 A7 | A8 L11 A9 L12 | L14 A11 L15 A12 | L17 A13 L18 A14 | A15 L19 A16 L20 | A17 L21 A18 L22
sketch "Esboço23" plane through (0, 0, 45.7) normal (0, 0, -1) x (1, 0, 0)
  line L0 (36.9154, -2.5) -> (34.5, -2.5)
  arc A0 (34.5, 2.5) -> (34.5, -2.5) centre (34.5, 0) ccw
  line L1 (34.5, 2.5) -> (36.9154, 2.5)
  arc A1 (36.9154, 2.5) -> (36.1248, 8) centre (0, 0) ccw
  line L2 (36.1248, 8) -> (-36.1248, 8)
  arc A2 (-36.1248, 8) -> (-36.9154, 2.5) centre (0, 0) ccw
  line L3 (-36.9154, 2.5) -> (-34.5, 2.5)
  arc A3 (-34.5, -2.5) -> (-34.5, 2.5) centre (-34.5, 0) ccw
  line L4 (-34.5, -2.5) -> (-36.9154, -2.5)
  arc A4 (-36.9154, -2.5) -> (-36.1248, -8) centre (0, 0) ccw
  line L5 (-36.1248, -8) -> (36.1248, -8)
  arc A5 (36.1248, -8) -> (36.9154, -2.5) centre (0, 0) ccw
  line L6 (0, 0) -> (0, -19) construction
  line L7 (0, 0) -> (19.3, 0)
  line L8 (15.8, 2.5) -> (15.8, -2.5)
  arc A6 (15.8, -2.5) -> (22.8, -2.5) centre (19.3, -2.5) ccw
  line L9 (22.8, -2.5) -> (22.8, 2.5)
  arc A7 (22.8, 2.5) -> (15.8, 2.5) centre (19.3, 2.5) ccw
  line L10 (19.3, 2.5) -> (19.3, -2.5) construction
  line L11 (-15.8, 2.5) -> (-15.8, -2.5)
  arc A8 (-15.8, 2.5) -> (-22.8, 2.5) centre (-19.3, 2.5) ccw
  line L12 (-22.8, -2.5) -> (-22.8, 2.5)
  arc A9 (-22.8, -2.5) -> (-15.8, -2.5) centre (-19.3, -2.5) ccw
  circle A10 centre (10.8, 0) radius 1.5 construction
  circle A11 centre (27.8, 0) radius 1.5 construction
  line L13 (9.3, 2.5) -> (9.3, -2.5)
  arc A12 (9.3, -2.5) -> (12.3, -2.5) centre (10.8, -2.5) ccw
  line L14 (12.3, -2.5) -> (12.3, 2.5)
  arc A13 (12.3, 2.5) -> (9.3, 2.5) centre (10.8, 2.5) ccw
  line L15 (10.8, 2.5) -> (10.8, -2.5) construction
  line L16 (26.3, -2.5) -> (26.3, 2.5)
  arc A14 (26.3, -2.5) -> (29.3, -2.5) centre (27.8, -2.5) ccw
  line L17 (29.3, 2.5) -> (29.3, -2.5)
  arc A15 (29.3, 2.5) -> (26.3, 2.5) centre (27.8, 2.5) ccw
  line L18 (-12.3, -2.5) -> (-12.3, 2.5)
  arc A16 (-12.3, -2.5) -> (-9.3, -2.5) centre (-10.8, -2.5) ccw
  line L19 (-9.3, 2.5) -> (-9.3, -2.5)
  arc A17 (-9.3, 2.5) -> (-12.3, 2.5) centre (-10.8, 2.5) ccw
  line L20 (-26.3, -2.5) -> (-26.3, 2.5)
  arc A18 (-29.3, -2.5) -> (-26.3, -2.5) centre (-27.8, -2.5) ccw
  line L21 (-29.3, 2.5) -> (-29.3, -2.5)
  arc A19 (-26.3, 2.5) -> (-29.3, 2.5) centre (-27.8, 2.5) ccw
  point P0 (19.3, 0)
  point P1 (10.8, 0)
  dimension "d199" = 3.5
  dimension "d200" = 5
  dimension "d201" = 19.3
  dimension "d206" = 3
  dimension "d207" = 8.5
  dimension "d228" = 2.5
  dimension "d229" = 1.5
extrude "Extrusão29" cut sketch "Esboço23" against normal blind 10 contours L7 L13 L14 A13 | L8 A6 L9 A7 | L7 L13 A12 L14 | L11 A8 L12 A9 | L16 A14 L17 A15 | L20 A18 L21 A19
ref_plane "Plano de trabalho12" through (0, 0, 106.3) normal (0, 0, 1) x (1, 0, 0)
sketch "Esboço24" plane through (0, 0, 106.3) normal (0, 0, 1) x (1, 0, 0)
  line L0 (0, 0) -> (28.1868, 0) construction
  line L1 (16, 0) -> (16, 33.3617)
  circle A0 centre (0, 0) radius 37
  line L2 (16, 0) -> (16, -33.3617)
  line L3 (0, 0) -> (0, 19.3) construction
  line L4 (-16, 0) -> (-16, 33.3617)
  line L5 (-16, 0) -> (-16, -33.3617)
  line L6 (-2, 6.8) -> (2, 6.8)
  arc A1 (2, 6.8) -> (2, 31.8) centre (2, 19.3) ccw
  line L7 (2, 31.8) -> (-2, 31.8)
  arc A2 (-2, 31.8) -> (-2, 6.8) centre (-2, 19.3) ccw
  line L8 (-2, 19.3) -> (2, 19.3) construction
  arc A3 (2, -31.8) -> (2, -6.8) centre (2, -19.3) ccw
  arc A4 (-2, -6.8) -> (-2, -31.8) centre (-2, -19.3) ccw
  line L9 (-2, -6.8) -> (2, -6.8)
  line L10 (2, -31.8) -> (-2, -31.8)
  circle A5 centre (0, 34.5) radius 1.5
  circle A6 centre (0, -34.5) radius 1.5
  point P0 (0, 19.3)
  dimension "d209" = 16
  dimension "d210" = 12.5
  dimension "d211" = 4
  dimension "d212" = 19.3
  dimension "d215" = 3
  dimension "d216" = 34.5
ref_plane "Plano de trabalho13" through (0, 0, 55.7) normal (0, 0, -1) x (-1, 0, 0)
ref_plane "Plano de trabalho14" through (0, 0, 60) normal (0, 0, 1) x (1, 0, 0)
sketch "Esboço25" plane through (0, 0, 55.7) normal (0, 0, -1) x (1, 0, 0)
  line L0 (-33.3617, 16) -> (33.3617, 16)
  circle A0 centre (0, 0) radius 37
  line L1 (0, 0) -> (-19.3, 0) construction
  line L2 (-33.3617, -16) -> (33.3617, -16)
  line L3 (-6.8, -2) -> (-6.8, 2)
  arc A1 (-6.8, 2) -> (-31.8, 2) centre (-19.3, 2) ccw
  line L4 (-31.8, 2) -> (-31.8, -2)
  arc A2 (-31.8, -2) -> (-6.8, -2) centre (-19.3, -2) ccw
  line L5 (-19.3, -2) -> (-19.3, 2) construction
  circle A3 centre (-34.5, 0) radius 1.5
  line L6 (0, 0) -> (0, -12) construction
  arc A4 (31.8, 2) -> (6.8, 2) centre (19.3, 2) ccw
  line L7 (6.8, -2) -> (6.8, 2)
  arc A5 (6.8, -2) -> (31.8, -2) centre (19.3, -2) ccw
  circle A6 centre (34.5, 0) radius 1.5
  line L8 (31.8, 2) -> (31.8, -2)
  point P0 (-19.3, 0)
  dimension "d219" = 16
  dimension "d220" = 12.5
  dimension "d221" = 4
  dimension "d222" = 19.3
  dimension "d224" = 34.5
  dimension "d225" = 3
ref_plane "Plano de trabalho15" through (0, 0, 136.3) normal (0, 0, 1) x (1, 0, 0)
ref_plane "Plano de trabalho16" through (0, 0, 144) normal (0, 0, 1) x (1, 0, 0)
sketch "Esboço26" plane through (0, 0, 136.3) normal (0, 0, 1) x (1, 0, 0)
  circle A0 centre (0, 0) radius 44.7214
extrude "Extrusão32" cut sketch "Esboço26" against normal blind 200
sketch "Esboço27" plane through (0, 0, 144) normal (0, 0, 1) x (1, 0, 0)
  circle A0 centre (0, 0) radius 47.7166
extrude "Extrusão33" cut sketch "Esboço27" along normal blind 100
